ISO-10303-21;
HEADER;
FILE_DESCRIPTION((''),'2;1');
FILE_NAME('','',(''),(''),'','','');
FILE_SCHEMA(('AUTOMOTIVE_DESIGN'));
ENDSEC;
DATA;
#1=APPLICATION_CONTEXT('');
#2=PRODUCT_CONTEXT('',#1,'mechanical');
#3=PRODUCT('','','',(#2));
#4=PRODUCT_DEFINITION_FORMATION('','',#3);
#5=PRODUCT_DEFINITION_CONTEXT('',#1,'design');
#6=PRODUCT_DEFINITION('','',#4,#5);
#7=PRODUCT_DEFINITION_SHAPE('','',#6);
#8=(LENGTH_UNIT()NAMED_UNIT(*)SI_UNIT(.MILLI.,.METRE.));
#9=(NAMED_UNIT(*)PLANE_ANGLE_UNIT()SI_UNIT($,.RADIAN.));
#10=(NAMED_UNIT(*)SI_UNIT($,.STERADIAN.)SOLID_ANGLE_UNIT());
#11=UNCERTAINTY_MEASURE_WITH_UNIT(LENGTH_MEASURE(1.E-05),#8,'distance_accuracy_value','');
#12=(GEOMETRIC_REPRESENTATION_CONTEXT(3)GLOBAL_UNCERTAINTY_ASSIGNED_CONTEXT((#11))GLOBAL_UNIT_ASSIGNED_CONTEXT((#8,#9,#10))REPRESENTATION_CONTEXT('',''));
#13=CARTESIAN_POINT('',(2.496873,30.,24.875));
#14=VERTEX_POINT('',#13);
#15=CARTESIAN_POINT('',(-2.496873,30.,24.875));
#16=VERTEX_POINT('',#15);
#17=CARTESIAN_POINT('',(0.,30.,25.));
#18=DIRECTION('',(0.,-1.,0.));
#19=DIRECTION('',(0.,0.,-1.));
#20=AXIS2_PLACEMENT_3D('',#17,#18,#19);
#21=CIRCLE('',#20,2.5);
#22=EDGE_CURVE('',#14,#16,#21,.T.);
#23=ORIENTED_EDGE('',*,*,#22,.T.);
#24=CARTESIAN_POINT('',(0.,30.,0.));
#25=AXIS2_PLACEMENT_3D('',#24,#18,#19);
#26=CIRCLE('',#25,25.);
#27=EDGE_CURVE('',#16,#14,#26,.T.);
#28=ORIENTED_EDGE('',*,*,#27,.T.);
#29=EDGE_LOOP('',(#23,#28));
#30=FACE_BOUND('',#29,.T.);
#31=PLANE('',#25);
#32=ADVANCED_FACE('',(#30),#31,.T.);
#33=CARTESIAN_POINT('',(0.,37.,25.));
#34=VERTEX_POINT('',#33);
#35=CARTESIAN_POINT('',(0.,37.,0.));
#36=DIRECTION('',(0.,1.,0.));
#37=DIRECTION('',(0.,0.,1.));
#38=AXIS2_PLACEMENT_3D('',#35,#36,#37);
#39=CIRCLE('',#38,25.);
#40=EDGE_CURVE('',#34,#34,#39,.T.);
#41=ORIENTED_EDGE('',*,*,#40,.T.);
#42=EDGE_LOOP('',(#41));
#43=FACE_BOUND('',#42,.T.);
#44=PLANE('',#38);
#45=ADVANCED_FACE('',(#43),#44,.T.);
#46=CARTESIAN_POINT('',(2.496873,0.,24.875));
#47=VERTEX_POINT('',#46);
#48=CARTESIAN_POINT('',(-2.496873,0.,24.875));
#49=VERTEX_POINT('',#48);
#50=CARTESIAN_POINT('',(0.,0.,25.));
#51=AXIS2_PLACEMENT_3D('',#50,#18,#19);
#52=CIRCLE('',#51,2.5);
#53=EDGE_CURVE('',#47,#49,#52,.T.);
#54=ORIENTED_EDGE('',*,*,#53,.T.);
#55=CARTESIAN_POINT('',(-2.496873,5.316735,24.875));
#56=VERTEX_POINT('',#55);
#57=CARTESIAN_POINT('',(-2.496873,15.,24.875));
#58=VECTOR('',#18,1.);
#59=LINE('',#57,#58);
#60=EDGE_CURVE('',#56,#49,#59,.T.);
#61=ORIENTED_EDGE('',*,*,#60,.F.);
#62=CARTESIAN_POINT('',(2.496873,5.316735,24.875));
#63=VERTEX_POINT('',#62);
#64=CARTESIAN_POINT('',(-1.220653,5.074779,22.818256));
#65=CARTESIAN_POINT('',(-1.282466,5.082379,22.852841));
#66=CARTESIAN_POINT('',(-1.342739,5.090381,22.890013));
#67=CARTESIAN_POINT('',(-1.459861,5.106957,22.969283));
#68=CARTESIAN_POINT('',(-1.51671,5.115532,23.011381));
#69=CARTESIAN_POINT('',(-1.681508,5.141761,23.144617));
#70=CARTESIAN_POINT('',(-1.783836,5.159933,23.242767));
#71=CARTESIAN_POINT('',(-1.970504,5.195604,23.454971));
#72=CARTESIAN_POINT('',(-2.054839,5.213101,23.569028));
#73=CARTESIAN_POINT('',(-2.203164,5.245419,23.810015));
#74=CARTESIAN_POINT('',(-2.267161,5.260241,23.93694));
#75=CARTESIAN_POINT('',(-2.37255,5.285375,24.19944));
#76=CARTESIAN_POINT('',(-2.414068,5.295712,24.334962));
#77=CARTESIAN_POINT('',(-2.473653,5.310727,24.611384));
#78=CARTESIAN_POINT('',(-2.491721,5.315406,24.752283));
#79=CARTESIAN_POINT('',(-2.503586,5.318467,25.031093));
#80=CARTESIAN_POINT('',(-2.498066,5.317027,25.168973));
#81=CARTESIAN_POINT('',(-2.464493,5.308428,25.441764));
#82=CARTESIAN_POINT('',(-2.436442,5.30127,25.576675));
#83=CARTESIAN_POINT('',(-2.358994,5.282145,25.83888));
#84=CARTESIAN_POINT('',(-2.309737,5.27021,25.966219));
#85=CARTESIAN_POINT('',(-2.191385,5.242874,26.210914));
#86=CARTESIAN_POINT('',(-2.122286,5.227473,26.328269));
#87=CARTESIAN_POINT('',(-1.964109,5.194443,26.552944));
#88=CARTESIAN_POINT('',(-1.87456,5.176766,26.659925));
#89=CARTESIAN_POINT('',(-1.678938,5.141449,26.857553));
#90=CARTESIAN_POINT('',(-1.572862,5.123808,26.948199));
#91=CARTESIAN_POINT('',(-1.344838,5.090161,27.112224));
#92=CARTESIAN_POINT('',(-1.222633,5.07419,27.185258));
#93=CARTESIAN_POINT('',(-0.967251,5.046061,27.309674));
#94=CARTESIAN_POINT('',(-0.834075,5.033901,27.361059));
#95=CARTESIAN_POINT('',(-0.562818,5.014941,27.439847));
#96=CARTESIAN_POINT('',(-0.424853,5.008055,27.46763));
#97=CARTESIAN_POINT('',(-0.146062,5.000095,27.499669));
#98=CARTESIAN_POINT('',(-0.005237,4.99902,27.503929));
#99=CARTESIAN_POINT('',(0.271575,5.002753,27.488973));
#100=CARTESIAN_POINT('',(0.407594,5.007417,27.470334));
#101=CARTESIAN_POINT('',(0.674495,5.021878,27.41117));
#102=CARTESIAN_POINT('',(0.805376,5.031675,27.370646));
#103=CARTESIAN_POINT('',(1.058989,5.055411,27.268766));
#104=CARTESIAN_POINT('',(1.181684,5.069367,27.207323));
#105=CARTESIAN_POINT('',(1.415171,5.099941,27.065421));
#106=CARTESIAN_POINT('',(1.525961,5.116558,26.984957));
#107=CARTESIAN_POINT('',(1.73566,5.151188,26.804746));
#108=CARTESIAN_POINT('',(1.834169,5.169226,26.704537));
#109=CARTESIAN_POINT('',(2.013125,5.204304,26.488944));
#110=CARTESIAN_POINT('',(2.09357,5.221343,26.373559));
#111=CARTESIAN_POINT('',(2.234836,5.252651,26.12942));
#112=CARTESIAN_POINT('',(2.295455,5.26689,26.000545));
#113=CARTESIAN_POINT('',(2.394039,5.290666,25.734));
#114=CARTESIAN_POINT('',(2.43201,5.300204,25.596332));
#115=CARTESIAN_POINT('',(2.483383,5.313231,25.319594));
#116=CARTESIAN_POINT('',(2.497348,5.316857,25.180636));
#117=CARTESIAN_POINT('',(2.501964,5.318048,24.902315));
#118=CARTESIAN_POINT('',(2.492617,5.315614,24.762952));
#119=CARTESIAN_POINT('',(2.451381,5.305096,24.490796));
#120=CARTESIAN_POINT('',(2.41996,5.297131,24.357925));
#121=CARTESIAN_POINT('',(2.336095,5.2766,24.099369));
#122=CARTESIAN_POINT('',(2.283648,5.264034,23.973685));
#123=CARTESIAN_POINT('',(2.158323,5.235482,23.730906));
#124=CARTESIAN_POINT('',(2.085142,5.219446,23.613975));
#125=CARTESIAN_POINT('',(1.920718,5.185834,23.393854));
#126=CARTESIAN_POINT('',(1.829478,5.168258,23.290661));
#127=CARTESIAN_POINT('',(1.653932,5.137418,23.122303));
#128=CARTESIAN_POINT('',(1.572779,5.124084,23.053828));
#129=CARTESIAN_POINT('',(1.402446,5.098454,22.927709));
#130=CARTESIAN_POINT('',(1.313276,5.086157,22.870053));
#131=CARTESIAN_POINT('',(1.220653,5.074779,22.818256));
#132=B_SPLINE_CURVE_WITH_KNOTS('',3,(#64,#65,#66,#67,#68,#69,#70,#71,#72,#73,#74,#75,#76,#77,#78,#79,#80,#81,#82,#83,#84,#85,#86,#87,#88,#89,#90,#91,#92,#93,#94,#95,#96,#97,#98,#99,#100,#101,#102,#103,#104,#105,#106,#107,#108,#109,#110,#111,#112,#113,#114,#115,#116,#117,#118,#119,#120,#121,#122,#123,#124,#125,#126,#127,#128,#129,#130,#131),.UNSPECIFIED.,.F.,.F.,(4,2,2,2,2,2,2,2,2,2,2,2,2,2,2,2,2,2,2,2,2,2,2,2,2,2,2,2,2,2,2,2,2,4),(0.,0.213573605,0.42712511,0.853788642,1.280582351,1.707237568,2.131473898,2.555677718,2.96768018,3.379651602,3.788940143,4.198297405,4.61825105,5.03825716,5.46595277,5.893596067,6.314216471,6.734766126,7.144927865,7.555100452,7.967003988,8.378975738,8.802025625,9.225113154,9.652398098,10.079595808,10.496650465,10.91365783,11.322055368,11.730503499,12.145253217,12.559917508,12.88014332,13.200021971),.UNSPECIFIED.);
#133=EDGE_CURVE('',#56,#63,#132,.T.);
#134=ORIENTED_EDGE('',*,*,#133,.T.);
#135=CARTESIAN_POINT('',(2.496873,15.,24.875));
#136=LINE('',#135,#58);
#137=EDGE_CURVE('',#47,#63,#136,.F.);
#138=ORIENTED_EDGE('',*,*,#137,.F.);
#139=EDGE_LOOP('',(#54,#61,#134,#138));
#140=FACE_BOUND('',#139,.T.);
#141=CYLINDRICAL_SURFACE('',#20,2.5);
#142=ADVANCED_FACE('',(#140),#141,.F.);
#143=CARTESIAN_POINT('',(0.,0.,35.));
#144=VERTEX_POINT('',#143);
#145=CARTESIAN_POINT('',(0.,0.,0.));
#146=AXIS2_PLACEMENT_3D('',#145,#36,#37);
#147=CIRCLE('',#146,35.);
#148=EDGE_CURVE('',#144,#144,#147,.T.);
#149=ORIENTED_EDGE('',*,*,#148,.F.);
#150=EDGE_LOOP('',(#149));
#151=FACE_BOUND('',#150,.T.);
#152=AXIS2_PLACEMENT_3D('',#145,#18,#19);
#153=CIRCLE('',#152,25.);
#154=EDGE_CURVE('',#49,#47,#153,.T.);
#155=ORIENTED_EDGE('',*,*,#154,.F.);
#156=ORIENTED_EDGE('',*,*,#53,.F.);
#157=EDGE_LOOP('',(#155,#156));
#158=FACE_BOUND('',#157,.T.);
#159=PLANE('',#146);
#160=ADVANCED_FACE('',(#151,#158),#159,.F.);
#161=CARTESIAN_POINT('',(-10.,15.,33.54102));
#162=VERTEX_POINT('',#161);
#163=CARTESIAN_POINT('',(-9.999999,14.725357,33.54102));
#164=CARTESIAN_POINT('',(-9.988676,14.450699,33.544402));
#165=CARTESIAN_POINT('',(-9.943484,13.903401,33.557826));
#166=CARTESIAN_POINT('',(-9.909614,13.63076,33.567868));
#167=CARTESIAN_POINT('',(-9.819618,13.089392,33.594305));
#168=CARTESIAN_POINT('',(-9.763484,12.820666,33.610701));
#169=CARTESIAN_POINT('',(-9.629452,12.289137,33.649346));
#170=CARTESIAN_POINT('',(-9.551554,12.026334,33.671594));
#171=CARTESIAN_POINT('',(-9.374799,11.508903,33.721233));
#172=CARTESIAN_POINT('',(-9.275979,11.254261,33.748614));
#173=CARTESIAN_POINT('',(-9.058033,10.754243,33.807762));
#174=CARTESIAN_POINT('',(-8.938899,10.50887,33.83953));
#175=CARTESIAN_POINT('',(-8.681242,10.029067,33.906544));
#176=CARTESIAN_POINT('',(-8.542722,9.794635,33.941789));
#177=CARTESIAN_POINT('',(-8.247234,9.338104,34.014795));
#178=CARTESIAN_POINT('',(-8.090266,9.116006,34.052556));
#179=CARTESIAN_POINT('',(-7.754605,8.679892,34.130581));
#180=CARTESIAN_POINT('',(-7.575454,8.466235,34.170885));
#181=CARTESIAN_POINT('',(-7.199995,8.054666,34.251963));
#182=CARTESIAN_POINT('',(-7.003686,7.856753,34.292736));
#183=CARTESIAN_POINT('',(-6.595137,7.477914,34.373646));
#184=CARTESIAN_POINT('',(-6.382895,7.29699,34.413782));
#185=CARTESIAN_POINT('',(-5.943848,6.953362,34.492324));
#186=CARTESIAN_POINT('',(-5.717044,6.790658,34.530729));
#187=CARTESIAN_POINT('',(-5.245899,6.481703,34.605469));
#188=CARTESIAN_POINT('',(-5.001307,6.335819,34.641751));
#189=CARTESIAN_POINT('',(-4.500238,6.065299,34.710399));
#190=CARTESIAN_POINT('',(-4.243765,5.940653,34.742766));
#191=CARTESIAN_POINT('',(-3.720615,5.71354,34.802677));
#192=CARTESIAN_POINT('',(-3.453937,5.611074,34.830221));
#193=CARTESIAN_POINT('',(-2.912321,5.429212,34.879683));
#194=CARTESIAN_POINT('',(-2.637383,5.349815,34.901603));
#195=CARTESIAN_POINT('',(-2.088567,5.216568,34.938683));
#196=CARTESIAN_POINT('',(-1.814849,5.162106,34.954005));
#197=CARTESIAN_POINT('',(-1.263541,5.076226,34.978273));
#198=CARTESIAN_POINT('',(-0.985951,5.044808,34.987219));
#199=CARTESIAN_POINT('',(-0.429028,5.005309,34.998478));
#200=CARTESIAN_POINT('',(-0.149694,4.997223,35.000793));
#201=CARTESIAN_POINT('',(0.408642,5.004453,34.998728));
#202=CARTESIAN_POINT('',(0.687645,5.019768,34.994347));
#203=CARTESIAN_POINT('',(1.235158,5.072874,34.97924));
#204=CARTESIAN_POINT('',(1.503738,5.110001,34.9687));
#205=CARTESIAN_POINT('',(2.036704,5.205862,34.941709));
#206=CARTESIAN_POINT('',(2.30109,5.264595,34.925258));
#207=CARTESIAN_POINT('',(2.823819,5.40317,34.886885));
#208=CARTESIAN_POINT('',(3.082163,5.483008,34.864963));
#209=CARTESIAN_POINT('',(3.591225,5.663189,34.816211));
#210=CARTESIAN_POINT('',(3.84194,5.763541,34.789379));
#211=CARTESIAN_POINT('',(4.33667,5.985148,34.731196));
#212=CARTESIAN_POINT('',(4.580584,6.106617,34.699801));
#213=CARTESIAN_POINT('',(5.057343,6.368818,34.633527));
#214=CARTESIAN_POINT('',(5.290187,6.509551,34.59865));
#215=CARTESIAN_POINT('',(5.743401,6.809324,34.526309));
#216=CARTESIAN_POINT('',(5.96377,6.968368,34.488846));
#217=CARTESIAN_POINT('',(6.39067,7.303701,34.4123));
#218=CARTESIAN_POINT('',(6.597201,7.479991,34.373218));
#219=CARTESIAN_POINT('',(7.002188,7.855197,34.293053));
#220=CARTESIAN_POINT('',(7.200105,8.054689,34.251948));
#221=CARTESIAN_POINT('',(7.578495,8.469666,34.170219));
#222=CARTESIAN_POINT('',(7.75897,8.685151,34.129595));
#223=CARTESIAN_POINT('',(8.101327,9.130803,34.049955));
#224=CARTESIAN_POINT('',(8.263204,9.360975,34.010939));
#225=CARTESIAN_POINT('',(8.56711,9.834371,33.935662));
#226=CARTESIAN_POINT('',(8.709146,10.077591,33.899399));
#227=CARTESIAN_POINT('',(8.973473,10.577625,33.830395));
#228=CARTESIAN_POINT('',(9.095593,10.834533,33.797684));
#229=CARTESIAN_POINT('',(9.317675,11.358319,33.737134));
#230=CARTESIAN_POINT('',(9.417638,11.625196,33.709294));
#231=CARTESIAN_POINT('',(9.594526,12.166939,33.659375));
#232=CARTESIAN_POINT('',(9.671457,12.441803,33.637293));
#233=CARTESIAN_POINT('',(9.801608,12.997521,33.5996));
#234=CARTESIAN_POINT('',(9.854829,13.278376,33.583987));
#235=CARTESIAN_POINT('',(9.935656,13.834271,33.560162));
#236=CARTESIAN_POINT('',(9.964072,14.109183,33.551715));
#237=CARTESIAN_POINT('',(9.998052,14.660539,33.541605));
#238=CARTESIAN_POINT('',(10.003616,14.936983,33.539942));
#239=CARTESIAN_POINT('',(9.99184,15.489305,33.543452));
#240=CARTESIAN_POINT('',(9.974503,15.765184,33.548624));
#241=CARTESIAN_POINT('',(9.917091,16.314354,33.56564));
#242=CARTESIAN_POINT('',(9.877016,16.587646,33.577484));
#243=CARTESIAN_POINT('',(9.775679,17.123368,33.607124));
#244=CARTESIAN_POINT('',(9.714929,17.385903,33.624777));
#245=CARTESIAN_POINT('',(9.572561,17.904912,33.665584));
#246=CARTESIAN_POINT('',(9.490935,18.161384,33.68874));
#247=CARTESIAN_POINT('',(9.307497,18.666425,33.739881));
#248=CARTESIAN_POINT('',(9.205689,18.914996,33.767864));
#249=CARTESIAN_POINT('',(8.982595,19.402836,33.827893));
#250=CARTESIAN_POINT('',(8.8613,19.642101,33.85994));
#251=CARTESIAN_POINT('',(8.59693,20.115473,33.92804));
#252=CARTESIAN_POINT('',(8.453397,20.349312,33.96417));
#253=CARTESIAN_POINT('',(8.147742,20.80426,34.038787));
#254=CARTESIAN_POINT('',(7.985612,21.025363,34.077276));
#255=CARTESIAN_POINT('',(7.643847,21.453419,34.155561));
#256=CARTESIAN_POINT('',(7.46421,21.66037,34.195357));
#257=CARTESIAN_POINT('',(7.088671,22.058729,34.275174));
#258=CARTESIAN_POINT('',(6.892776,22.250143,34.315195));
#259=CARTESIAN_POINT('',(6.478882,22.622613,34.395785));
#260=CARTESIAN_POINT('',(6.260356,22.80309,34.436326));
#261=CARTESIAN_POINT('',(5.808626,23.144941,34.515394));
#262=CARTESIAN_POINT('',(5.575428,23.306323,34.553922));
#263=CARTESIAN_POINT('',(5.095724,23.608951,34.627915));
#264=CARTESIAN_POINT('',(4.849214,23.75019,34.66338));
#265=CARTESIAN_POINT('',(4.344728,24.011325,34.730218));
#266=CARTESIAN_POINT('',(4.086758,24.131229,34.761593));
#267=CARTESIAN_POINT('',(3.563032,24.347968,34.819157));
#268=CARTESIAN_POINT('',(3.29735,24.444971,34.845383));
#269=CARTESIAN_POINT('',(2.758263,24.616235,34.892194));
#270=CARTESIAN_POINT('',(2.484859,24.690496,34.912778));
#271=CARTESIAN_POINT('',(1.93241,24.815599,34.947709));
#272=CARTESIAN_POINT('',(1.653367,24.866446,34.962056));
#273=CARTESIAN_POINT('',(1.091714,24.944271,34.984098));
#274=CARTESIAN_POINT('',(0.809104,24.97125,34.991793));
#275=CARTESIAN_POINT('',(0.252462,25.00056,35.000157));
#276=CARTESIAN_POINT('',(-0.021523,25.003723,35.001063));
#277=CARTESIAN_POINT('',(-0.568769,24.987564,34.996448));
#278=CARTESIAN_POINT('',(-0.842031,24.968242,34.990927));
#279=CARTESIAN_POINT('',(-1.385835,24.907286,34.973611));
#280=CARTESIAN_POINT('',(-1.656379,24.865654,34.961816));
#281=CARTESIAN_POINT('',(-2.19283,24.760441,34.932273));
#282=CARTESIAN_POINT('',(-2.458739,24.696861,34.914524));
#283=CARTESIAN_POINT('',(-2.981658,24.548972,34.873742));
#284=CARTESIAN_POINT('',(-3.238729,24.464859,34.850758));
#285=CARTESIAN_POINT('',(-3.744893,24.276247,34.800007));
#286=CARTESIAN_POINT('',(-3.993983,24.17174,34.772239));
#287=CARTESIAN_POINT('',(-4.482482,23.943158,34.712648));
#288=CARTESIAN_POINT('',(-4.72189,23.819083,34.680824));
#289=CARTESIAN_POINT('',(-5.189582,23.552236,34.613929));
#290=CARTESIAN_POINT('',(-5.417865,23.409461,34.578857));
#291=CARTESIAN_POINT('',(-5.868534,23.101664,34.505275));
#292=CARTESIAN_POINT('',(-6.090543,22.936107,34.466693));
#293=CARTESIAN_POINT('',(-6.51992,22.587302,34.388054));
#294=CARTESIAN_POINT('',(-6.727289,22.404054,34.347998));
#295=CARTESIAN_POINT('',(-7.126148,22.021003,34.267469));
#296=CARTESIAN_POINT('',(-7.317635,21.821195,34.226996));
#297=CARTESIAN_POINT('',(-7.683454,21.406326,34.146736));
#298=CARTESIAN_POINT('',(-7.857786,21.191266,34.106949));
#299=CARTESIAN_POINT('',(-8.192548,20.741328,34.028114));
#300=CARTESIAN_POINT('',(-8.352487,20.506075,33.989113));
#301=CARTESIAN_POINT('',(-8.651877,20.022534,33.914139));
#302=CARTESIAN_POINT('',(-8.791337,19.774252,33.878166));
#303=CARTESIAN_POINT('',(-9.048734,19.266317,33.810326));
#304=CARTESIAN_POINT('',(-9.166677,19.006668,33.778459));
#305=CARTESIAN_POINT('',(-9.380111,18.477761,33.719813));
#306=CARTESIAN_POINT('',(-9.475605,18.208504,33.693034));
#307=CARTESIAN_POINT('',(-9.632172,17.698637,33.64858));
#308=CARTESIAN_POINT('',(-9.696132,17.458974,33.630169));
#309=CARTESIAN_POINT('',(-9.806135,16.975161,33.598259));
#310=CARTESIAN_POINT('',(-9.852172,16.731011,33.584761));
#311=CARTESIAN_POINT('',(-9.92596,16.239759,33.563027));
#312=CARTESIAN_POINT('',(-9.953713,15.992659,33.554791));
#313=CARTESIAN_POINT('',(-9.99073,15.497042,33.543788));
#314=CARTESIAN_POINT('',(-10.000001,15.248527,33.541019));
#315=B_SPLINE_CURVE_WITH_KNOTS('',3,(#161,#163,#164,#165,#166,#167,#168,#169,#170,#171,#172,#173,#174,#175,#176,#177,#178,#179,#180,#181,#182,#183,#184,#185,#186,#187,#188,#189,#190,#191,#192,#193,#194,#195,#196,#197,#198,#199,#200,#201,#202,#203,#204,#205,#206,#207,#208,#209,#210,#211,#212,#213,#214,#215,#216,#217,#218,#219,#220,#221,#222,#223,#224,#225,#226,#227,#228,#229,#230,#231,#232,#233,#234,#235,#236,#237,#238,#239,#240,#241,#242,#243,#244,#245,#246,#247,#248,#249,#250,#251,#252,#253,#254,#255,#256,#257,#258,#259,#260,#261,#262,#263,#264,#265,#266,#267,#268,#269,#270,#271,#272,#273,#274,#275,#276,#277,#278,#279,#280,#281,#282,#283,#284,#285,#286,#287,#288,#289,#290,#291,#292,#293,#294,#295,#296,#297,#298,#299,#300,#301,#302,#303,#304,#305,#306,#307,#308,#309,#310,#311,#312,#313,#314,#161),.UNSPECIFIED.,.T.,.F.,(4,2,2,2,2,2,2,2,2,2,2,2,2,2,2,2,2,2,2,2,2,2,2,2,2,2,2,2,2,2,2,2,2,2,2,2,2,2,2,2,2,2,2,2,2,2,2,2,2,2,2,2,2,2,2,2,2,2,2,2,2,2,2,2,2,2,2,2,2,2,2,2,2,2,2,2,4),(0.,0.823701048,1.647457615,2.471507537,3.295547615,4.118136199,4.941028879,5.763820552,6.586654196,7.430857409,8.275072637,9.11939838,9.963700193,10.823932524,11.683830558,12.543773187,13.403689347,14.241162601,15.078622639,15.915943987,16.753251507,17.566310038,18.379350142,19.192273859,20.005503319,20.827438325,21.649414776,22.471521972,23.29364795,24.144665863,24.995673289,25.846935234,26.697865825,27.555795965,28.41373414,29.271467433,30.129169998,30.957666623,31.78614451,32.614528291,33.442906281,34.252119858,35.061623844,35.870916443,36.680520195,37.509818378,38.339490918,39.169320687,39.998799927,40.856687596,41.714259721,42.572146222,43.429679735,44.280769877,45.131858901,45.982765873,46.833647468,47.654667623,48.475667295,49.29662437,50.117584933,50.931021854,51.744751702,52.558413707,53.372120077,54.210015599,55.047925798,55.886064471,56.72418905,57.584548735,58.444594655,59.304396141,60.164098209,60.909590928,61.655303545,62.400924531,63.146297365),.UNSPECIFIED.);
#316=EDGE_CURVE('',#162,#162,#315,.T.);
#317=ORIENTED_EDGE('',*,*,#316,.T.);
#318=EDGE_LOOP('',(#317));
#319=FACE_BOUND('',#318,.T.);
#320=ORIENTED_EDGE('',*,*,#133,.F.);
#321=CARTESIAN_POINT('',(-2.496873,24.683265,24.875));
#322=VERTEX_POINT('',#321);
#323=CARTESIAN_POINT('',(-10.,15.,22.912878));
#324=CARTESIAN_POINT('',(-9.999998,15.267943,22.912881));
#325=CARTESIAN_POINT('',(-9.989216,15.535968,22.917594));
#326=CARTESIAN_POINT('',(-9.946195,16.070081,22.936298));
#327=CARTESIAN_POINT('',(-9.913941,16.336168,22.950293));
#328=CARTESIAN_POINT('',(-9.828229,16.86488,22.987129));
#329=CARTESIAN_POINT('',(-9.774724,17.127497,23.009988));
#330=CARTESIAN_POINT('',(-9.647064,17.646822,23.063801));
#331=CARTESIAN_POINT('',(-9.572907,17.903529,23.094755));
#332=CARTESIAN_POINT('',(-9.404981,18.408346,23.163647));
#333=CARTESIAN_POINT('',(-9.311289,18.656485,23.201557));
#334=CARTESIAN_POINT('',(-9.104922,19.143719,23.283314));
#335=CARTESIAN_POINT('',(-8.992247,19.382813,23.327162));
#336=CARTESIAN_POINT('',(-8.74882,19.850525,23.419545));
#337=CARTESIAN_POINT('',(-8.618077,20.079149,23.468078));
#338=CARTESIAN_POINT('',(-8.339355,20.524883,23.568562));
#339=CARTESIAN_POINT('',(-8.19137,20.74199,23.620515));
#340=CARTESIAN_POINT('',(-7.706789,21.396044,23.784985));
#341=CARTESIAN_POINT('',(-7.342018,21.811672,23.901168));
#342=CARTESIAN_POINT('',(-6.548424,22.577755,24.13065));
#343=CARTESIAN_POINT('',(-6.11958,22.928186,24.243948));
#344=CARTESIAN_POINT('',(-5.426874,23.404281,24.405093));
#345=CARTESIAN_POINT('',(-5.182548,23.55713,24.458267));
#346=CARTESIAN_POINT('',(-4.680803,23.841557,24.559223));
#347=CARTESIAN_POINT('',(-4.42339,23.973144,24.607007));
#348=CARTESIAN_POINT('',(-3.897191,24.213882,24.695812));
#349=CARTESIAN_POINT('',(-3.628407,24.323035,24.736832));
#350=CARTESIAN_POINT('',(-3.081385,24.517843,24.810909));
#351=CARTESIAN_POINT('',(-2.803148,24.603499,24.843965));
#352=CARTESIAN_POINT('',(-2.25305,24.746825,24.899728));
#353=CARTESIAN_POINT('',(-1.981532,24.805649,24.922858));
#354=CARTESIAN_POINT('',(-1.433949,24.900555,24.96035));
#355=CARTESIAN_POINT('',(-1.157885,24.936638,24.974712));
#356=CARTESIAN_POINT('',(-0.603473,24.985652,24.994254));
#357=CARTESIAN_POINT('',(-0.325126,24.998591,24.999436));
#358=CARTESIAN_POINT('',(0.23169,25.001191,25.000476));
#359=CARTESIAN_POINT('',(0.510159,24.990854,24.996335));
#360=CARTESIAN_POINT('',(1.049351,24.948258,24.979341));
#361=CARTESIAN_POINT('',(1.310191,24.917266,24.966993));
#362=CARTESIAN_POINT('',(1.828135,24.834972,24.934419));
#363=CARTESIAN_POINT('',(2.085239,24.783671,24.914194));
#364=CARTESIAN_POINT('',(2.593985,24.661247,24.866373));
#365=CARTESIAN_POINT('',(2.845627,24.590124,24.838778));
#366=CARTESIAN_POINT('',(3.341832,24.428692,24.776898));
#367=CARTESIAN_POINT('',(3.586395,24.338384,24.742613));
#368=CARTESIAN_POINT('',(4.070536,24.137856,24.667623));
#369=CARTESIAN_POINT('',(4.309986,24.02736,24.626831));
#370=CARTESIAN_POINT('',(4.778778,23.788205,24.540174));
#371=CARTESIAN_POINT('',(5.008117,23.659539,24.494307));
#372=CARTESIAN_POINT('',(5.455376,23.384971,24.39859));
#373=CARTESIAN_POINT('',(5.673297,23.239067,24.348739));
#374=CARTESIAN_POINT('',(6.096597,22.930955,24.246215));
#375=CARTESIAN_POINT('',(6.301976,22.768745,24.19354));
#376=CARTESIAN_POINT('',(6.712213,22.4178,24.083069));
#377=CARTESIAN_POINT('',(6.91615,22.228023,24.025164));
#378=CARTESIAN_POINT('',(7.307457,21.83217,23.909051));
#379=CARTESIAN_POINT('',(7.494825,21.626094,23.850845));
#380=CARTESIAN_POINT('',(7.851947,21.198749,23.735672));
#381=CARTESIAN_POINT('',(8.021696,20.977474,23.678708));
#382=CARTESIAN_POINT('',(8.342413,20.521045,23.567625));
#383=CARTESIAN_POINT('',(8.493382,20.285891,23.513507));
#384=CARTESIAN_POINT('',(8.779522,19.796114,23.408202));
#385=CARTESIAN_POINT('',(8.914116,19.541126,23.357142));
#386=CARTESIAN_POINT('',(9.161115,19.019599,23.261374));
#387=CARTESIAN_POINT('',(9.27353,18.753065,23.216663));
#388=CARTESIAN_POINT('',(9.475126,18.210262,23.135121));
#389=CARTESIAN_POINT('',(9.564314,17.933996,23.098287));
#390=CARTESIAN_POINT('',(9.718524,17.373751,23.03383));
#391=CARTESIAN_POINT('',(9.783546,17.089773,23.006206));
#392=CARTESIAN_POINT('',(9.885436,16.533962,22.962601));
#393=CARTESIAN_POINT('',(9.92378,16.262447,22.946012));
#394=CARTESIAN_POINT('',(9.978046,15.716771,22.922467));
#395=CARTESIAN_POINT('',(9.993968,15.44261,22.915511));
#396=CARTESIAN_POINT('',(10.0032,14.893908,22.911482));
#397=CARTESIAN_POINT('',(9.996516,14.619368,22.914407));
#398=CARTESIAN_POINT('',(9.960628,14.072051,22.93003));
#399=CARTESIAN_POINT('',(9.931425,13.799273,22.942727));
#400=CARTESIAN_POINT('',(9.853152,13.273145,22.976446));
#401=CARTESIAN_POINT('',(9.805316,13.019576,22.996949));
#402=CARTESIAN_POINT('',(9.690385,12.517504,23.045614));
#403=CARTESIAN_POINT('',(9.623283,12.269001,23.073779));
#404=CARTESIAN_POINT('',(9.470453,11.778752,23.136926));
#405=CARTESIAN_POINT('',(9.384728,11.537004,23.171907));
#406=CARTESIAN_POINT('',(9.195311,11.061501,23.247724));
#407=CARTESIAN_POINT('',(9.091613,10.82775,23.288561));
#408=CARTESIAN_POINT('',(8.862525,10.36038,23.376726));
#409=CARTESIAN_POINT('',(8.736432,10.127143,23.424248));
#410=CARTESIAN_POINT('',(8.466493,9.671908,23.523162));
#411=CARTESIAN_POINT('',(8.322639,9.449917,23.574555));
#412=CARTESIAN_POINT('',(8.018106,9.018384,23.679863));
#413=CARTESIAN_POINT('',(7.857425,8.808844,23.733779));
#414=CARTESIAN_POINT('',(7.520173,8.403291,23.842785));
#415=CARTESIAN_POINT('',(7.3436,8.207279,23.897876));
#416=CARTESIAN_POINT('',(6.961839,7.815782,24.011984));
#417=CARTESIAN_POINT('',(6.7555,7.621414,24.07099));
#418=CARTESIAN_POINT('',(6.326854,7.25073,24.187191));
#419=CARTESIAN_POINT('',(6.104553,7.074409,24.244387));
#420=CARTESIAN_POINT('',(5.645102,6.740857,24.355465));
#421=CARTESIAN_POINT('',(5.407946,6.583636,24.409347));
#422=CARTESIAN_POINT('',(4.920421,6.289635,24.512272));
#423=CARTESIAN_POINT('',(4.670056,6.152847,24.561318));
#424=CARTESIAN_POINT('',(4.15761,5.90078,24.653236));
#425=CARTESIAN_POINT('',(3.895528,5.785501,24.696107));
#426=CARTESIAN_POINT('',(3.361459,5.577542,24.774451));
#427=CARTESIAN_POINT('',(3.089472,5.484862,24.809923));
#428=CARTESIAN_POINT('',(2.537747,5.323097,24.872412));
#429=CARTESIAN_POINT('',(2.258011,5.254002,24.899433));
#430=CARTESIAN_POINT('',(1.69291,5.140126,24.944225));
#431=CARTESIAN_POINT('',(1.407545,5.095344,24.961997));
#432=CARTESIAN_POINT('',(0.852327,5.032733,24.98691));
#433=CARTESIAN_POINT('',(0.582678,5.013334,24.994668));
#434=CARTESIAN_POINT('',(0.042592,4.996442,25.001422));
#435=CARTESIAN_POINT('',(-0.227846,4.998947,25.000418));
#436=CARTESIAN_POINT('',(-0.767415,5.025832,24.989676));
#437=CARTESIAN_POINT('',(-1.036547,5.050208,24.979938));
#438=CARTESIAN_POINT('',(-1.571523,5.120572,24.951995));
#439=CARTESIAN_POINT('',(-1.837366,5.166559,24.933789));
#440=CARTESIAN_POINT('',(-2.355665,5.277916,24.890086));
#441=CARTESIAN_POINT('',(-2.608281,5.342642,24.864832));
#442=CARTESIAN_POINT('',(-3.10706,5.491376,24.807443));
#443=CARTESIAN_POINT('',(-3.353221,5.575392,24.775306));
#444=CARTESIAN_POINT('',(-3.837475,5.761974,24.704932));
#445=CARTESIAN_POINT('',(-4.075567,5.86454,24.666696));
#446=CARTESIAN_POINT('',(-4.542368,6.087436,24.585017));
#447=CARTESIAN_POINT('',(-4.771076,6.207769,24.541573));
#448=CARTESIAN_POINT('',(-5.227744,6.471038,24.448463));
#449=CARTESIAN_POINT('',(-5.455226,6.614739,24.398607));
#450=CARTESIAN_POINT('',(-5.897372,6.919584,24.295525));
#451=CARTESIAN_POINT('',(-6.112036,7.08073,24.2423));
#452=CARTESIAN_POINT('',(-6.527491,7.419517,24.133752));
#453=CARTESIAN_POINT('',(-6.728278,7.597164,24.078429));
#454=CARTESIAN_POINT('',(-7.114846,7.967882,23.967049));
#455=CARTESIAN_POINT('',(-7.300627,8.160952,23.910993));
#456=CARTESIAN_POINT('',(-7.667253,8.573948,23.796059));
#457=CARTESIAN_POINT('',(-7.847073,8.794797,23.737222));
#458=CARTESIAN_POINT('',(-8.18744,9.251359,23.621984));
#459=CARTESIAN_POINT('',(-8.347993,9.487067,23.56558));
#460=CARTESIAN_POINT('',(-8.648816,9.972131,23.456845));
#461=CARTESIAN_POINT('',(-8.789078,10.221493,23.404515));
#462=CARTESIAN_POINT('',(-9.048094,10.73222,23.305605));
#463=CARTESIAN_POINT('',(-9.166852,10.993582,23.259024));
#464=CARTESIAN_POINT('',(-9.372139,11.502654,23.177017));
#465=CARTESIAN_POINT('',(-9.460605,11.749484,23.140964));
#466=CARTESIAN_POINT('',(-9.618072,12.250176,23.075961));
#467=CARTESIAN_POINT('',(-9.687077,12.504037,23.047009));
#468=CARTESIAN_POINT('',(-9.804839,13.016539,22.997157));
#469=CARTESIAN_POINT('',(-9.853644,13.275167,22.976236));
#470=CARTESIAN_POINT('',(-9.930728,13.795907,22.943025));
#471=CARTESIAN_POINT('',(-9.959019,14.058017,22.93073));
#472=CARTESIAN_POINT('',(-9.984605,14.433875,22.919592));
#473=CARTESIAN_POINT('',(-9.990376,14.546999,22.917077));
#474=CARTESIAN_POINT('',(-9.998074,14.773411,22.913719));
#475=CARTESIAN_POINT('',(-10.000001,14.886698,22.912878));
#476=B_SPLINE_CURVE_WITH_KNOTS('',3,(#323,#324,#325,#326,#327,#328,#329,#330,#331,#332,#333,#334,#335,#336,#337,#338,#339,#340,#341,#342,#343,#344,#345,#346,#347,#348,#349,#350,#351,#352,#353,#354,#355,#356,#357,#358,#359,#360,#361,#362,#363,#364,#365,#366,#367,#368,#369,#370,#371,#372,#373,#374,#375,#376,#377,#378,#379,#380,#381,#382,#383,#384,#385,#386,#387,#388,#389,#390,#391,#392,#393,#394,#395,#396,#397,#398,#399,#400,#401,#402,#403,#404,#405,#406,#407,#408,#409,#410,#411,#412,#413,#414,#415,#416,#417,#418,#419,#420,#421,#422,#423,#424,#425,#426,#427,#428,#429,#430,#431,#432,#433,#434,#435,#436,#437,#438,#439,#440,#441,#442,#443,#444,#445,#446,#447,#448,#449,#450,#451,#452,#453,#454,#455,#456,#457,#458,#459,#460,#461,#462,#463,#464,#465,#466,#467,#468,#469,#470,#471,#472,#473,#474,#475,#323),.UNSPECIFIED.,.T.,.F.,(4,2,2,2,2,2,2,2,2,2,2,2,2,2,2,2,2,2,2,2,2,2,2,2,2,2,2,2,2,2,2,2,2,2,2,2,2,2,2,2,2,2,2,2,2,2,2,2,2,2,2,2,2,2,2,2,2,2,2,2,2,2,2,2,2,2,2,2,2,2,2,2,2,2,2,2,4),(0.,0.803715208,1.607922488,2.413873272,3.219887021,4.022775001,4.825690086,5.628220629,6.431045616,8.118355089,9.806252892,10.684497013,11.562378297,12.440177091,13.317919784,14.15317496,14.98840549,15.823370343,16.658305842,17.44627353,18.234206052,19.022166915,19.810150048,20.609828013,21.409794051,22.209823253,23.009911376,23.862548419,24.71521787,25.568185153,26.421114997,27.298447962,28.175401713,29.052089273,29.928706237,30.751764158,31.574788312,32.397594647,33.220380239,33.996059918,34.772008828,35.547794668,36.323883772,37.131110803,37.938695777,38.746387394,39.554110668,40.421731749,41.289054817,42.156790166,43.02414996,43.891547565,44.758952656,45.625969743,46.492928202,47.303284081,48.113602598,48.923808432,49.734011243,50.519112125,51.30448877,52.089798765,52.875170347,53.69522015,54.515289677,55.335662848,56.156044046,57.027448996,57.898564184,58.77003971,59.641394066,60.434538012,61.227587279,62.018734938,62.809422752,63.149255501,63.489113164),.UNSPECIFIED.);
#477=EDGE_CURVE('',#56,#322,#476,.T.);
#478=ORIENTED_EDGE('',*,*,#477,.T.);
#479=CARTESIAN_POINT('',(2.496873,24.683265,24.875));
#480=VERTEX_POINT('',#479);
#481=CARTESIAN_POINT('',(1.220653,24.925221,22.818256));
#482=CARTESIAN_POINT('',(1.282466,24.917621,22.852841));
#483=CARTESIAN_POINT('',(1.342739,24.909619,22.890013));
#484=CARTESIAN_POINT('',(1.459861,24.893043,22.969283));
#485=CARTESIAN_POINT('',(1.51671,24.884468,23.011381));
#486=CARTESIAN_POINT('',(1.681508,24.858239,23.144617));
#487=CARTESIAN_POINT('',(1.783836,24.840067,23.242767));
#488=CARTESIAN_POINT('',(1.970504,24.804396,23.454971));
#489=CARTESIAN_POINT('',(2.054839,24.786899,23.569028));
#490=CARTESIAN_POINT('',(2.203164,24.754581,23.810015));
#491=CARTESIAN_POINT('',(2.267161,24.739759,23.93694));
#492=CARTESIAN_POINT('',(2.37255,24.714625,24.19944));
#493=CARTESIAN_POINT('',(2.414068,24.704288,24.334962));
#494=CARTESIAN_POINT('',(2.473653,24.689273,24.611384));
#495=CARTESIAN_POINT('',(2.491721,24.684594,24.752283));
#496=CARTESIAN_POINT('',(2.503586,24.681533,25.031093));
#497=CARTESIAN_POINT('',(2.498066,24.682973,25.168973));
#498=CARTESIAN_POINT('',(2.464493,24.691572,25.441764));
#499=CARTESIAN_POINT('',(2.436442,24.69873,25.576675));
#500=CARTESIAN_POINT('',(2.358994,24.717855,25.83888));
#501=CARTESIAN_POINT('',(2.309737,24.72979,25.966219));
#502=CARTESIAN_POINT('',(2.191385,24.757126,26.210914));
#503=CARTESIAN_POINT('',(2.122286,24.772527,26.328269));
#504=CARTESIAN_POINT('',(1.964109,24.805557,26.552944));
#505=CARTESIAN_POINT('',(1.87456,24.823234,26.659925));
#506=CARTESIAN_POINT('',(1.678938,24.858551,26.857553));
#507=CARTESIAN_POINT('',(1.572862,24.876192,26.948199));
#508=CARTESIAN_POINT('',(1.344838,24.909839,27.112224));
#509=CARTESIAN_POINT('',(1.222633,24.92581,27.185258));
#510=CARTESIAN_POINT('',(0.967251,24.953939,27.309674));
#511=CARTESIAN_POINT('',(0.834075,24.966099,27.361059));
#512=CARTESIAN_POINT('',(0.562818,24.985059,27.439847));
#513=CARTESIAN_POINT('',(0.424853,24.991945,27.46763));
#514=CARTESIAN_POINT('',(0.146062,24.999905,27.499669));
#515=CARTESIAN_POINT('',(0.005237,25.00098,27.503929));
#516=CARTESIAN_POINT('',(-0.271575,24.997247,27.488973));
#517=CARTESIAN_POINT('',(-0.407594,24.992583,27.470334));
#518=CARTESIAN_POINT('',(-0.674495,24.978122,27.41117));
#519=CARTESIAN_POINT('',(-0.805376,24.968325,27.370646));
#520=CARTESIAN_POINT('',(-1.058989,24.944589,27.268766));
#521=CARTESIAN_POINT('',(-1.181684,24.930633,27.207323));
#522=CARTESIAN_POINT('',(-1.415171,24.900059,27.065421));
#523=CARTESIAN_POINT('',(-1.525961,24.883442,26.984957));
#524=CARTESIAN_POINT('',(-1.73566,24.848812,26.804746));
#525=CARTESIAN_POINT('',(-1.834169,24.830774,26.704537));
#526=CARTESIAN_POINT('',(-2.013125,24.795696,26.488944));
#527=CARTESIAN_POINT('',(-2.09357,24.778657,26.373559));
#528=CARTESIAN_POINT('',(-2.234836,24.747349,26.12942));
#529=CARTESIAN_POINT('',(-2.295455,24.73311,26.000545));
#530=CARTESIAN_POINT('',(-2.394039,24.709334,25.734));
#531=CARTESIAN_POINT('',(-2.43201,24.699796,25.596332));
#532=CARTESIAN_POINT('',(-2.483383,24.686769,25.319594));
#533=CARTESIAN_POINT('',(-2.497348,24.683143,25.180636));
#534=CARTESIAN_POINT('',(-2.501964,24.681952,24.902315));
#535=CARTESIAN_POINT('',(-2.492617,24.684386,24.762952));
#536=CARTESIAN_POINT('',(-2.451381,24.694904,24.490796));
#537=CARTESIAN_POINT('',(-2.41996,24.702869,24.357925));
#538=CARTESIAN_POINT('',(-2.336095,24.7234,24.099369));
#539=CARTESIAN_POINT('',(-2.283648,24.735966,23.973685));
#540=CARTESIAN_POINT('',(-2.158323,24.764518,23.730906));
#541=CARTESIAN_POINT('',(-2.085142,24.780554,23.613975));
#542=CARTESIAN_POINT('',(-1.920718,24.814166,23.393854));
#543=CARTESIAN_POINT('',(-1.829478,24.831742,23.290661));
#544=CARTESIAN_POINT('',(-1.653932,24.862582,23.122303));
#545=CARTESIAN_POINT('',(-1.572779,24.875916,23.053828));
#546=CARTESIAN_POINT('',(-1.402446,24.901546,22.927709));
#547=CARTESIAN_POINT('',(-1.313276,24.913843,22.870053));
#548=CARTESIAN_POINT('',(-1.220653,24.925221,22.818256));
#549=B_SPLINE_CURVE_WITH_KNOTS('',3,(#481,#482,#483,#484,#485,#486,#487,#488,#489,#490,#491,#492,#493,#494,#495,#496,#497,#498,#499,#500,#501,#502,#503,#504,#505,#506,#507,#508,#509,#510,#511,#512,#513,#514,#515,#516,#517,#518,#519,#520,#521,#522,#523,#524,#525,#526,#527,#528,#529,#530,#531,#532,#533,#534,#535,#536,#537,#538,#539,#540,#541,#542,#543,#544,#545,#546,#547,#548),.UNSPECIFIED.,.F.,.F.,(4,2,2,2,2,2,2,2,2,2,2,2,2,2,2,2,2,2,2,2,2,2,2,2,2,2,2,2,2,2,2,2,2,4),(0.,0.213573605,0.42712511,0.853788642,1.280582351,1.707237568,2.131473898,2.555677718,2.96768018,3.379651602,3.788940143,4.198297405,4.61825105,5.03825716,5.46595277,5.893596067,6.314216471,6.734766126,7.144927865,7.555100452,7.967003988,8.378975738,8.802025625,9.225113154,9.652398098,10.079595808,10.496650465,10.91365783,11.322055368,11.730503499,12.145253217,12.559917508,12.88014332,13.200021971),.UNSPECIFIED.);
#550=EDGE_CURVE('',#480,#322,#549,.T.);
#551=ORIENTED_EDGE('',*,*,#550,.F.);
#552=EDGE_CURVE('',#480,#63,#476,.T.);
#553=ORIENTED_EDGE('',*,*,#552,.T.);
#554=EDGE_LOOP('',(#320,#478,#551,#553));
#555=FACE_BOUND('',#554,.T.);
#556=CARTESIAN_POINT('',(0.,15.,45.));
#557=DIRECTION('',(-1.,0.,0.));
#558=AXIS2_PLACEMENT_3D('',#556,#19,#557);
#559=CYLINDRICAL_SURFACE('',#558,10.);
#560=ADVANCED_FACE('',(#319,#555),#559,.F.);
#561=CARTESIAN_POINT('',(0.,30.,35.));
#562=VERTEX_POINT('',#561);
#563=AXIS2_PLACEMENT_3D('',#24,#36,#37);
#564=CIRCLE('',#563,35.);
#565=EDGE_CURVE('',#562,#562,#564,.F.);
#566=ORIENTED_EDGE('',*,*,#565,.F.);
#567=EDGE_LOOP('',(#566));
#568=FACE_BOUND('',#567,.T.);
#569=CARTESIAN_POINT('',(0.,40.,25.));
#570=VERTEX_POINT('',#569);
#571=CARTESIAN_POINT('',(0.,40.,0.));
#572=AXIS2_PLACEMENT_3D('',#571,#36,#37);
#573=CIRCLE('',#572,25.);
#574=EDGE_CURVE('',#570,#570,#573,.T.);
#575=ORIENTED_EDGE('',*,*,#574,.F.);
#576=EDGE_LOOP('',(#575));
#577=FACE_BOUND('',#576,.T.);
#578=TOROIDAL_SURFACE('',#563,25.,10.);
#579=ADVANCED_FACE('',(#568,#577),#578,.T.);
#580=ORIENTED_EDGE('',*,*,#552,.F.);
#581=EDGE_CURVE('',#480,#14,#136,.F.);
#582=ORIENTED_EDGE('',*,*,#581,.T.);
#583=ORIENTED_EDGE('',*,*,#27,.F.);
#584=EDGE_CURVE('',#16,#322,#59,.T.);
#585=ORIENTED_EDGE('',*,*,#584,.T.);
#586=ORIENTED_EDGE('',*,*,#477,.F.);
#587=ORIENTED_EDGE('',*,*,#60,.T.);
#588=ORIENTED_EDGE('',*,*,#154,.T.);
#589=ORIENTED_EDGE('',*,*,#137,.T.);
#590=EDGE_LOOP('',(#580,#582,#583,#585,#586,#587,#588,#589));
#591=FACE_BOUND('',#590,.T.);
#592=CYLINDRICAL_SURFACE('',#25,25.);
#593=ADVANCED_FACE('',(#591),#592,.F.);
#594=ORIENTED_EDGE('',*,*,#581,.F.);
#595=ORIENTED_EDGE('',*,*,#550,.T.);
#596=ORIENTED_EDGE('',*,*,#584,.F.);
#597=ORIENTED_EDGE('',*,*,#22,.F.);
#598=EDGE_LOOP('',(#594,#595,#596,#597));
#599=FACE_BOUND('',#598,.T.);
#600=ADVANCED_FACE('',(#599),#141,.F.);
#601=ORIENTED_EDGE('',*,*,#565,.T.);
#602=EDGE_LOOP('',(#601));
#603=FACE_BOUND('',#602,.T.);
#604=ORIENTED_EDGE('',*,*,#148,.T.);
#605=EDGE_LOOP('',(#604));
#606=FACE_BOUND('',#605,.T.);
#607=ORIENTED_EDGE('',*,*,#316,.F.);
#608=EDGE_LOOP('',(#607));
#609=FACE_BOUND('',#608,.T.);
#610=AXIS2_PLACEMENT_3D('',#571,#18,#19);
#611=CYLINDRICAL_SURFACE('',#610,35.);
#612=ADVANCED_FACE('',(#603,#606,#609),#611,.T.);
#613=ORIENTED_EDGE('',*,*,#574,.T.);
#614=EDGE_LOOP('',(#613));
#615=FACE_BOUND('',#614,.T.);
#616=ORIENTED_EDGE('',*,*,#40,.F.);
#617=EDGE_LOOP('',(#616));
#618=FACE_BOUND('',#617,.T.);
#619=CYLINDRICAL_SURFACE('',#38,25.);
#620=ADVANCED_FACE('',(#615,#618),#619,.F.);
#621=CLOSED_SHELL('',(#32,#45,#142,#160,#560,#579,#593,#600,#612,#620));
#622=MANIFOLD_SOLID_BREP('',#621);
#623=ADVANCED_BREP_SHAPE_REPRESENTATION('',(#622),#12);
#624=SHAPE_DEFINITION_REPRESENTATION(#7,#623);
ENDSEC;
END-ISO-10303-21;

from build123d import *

# Parameters (mm, degrees)
ESQUISSE2_R             = 35
BOSS_EXTRU_1_DEPTH      = 40
CONG_1_R                = 10
ESQUISSE3_R             = 25
ENL_V_MAT_EXTRU_1_DEPTH = 30
ENL_V_START             = -3
ESQUISSE7_R             = 25
ENL_V_MAT_EXTRU_3_DEPTH = 3
ESQUISSE8_R             = 10
ENL_V_MAT_EXTRU_4_DEPTH = 45
ESQUISSE4_R             = 2.5
ENL_V_MAT_EXTRU_5_DEPTH = 30


with BuildPart() as part:
    # Esquisse2 → Boss.-Extru.1 (new body)
    with BuildSketch(Plane(origin=(0, 0, 0), x_dir=(1, 0, 0), z_dir=(0, 1, 0))):
        with Locations(Location((0, 0, 0), (0, 0, 270))):
            Circle(ESQUISSE2_R)
    extrude(amount=BOSS_EXTRU_1_DEPTH)

    # Congé1
    cong_1_edges = [part.edges().sort_by_distance(p)[0] for p in [
        (0, 40, -35),
    ]]
    fillet(cong_1_edges, radius=CONG_1_R)

    # Esquisse3 → Enlèv. mat.-Extru.1 (cut)
    with BuildSketch(Plane.XZ):
        with Locations(Location((0, 0, 0), (0, 0, 270))):
            Circle(ESQUISSE3_R)
    extrude(amount=-ENL_V_MAT_EXTRU_1_DEPTH, mode=Mode.SUBTRACT)

    # Esquisse7 → Enlèv. mat.-Extru.3 (cut)
    with BuildSketch(Plane(origin=(0, 40, 0), x_dir=(1, 0, 0), z_dir=(0, 1, 0)).offset(ENL_V_START)):
        with Locations(Location((0, 0, 0), (0, 0, 90))):
            Circle(ESQUISSE7_R)
    extrude(amount=ENL_V_MAT_EXTRU_3_DEPTH, mode=Mode.SUBTRACT)

    # Esquisse8 → Enlèv. mat.-Extru.4 (cut)
    with BuildSketch(Plane.XY):
        with Locations(Location((0, 15, 0), (0, 0, 180))):
            Circle(ESQUISSE8_R)
    extrude(amount=ENL_V_MAT_EXTRU_4_DEPTH, mode=Mode.SUBTRACT)

    # Esquisse4 → Enlèv. mat.-Extru.5 (cut)
    with BuildSketch(Plane.XZ):
        with Locations((0, 25)):
            Circle(ESQUISSE4_R)
    extrude(amount=-ENL_V_MAT_EXTRU_5_DEPTH, mode=Mode.SUBTRACT)


solid = part.part
